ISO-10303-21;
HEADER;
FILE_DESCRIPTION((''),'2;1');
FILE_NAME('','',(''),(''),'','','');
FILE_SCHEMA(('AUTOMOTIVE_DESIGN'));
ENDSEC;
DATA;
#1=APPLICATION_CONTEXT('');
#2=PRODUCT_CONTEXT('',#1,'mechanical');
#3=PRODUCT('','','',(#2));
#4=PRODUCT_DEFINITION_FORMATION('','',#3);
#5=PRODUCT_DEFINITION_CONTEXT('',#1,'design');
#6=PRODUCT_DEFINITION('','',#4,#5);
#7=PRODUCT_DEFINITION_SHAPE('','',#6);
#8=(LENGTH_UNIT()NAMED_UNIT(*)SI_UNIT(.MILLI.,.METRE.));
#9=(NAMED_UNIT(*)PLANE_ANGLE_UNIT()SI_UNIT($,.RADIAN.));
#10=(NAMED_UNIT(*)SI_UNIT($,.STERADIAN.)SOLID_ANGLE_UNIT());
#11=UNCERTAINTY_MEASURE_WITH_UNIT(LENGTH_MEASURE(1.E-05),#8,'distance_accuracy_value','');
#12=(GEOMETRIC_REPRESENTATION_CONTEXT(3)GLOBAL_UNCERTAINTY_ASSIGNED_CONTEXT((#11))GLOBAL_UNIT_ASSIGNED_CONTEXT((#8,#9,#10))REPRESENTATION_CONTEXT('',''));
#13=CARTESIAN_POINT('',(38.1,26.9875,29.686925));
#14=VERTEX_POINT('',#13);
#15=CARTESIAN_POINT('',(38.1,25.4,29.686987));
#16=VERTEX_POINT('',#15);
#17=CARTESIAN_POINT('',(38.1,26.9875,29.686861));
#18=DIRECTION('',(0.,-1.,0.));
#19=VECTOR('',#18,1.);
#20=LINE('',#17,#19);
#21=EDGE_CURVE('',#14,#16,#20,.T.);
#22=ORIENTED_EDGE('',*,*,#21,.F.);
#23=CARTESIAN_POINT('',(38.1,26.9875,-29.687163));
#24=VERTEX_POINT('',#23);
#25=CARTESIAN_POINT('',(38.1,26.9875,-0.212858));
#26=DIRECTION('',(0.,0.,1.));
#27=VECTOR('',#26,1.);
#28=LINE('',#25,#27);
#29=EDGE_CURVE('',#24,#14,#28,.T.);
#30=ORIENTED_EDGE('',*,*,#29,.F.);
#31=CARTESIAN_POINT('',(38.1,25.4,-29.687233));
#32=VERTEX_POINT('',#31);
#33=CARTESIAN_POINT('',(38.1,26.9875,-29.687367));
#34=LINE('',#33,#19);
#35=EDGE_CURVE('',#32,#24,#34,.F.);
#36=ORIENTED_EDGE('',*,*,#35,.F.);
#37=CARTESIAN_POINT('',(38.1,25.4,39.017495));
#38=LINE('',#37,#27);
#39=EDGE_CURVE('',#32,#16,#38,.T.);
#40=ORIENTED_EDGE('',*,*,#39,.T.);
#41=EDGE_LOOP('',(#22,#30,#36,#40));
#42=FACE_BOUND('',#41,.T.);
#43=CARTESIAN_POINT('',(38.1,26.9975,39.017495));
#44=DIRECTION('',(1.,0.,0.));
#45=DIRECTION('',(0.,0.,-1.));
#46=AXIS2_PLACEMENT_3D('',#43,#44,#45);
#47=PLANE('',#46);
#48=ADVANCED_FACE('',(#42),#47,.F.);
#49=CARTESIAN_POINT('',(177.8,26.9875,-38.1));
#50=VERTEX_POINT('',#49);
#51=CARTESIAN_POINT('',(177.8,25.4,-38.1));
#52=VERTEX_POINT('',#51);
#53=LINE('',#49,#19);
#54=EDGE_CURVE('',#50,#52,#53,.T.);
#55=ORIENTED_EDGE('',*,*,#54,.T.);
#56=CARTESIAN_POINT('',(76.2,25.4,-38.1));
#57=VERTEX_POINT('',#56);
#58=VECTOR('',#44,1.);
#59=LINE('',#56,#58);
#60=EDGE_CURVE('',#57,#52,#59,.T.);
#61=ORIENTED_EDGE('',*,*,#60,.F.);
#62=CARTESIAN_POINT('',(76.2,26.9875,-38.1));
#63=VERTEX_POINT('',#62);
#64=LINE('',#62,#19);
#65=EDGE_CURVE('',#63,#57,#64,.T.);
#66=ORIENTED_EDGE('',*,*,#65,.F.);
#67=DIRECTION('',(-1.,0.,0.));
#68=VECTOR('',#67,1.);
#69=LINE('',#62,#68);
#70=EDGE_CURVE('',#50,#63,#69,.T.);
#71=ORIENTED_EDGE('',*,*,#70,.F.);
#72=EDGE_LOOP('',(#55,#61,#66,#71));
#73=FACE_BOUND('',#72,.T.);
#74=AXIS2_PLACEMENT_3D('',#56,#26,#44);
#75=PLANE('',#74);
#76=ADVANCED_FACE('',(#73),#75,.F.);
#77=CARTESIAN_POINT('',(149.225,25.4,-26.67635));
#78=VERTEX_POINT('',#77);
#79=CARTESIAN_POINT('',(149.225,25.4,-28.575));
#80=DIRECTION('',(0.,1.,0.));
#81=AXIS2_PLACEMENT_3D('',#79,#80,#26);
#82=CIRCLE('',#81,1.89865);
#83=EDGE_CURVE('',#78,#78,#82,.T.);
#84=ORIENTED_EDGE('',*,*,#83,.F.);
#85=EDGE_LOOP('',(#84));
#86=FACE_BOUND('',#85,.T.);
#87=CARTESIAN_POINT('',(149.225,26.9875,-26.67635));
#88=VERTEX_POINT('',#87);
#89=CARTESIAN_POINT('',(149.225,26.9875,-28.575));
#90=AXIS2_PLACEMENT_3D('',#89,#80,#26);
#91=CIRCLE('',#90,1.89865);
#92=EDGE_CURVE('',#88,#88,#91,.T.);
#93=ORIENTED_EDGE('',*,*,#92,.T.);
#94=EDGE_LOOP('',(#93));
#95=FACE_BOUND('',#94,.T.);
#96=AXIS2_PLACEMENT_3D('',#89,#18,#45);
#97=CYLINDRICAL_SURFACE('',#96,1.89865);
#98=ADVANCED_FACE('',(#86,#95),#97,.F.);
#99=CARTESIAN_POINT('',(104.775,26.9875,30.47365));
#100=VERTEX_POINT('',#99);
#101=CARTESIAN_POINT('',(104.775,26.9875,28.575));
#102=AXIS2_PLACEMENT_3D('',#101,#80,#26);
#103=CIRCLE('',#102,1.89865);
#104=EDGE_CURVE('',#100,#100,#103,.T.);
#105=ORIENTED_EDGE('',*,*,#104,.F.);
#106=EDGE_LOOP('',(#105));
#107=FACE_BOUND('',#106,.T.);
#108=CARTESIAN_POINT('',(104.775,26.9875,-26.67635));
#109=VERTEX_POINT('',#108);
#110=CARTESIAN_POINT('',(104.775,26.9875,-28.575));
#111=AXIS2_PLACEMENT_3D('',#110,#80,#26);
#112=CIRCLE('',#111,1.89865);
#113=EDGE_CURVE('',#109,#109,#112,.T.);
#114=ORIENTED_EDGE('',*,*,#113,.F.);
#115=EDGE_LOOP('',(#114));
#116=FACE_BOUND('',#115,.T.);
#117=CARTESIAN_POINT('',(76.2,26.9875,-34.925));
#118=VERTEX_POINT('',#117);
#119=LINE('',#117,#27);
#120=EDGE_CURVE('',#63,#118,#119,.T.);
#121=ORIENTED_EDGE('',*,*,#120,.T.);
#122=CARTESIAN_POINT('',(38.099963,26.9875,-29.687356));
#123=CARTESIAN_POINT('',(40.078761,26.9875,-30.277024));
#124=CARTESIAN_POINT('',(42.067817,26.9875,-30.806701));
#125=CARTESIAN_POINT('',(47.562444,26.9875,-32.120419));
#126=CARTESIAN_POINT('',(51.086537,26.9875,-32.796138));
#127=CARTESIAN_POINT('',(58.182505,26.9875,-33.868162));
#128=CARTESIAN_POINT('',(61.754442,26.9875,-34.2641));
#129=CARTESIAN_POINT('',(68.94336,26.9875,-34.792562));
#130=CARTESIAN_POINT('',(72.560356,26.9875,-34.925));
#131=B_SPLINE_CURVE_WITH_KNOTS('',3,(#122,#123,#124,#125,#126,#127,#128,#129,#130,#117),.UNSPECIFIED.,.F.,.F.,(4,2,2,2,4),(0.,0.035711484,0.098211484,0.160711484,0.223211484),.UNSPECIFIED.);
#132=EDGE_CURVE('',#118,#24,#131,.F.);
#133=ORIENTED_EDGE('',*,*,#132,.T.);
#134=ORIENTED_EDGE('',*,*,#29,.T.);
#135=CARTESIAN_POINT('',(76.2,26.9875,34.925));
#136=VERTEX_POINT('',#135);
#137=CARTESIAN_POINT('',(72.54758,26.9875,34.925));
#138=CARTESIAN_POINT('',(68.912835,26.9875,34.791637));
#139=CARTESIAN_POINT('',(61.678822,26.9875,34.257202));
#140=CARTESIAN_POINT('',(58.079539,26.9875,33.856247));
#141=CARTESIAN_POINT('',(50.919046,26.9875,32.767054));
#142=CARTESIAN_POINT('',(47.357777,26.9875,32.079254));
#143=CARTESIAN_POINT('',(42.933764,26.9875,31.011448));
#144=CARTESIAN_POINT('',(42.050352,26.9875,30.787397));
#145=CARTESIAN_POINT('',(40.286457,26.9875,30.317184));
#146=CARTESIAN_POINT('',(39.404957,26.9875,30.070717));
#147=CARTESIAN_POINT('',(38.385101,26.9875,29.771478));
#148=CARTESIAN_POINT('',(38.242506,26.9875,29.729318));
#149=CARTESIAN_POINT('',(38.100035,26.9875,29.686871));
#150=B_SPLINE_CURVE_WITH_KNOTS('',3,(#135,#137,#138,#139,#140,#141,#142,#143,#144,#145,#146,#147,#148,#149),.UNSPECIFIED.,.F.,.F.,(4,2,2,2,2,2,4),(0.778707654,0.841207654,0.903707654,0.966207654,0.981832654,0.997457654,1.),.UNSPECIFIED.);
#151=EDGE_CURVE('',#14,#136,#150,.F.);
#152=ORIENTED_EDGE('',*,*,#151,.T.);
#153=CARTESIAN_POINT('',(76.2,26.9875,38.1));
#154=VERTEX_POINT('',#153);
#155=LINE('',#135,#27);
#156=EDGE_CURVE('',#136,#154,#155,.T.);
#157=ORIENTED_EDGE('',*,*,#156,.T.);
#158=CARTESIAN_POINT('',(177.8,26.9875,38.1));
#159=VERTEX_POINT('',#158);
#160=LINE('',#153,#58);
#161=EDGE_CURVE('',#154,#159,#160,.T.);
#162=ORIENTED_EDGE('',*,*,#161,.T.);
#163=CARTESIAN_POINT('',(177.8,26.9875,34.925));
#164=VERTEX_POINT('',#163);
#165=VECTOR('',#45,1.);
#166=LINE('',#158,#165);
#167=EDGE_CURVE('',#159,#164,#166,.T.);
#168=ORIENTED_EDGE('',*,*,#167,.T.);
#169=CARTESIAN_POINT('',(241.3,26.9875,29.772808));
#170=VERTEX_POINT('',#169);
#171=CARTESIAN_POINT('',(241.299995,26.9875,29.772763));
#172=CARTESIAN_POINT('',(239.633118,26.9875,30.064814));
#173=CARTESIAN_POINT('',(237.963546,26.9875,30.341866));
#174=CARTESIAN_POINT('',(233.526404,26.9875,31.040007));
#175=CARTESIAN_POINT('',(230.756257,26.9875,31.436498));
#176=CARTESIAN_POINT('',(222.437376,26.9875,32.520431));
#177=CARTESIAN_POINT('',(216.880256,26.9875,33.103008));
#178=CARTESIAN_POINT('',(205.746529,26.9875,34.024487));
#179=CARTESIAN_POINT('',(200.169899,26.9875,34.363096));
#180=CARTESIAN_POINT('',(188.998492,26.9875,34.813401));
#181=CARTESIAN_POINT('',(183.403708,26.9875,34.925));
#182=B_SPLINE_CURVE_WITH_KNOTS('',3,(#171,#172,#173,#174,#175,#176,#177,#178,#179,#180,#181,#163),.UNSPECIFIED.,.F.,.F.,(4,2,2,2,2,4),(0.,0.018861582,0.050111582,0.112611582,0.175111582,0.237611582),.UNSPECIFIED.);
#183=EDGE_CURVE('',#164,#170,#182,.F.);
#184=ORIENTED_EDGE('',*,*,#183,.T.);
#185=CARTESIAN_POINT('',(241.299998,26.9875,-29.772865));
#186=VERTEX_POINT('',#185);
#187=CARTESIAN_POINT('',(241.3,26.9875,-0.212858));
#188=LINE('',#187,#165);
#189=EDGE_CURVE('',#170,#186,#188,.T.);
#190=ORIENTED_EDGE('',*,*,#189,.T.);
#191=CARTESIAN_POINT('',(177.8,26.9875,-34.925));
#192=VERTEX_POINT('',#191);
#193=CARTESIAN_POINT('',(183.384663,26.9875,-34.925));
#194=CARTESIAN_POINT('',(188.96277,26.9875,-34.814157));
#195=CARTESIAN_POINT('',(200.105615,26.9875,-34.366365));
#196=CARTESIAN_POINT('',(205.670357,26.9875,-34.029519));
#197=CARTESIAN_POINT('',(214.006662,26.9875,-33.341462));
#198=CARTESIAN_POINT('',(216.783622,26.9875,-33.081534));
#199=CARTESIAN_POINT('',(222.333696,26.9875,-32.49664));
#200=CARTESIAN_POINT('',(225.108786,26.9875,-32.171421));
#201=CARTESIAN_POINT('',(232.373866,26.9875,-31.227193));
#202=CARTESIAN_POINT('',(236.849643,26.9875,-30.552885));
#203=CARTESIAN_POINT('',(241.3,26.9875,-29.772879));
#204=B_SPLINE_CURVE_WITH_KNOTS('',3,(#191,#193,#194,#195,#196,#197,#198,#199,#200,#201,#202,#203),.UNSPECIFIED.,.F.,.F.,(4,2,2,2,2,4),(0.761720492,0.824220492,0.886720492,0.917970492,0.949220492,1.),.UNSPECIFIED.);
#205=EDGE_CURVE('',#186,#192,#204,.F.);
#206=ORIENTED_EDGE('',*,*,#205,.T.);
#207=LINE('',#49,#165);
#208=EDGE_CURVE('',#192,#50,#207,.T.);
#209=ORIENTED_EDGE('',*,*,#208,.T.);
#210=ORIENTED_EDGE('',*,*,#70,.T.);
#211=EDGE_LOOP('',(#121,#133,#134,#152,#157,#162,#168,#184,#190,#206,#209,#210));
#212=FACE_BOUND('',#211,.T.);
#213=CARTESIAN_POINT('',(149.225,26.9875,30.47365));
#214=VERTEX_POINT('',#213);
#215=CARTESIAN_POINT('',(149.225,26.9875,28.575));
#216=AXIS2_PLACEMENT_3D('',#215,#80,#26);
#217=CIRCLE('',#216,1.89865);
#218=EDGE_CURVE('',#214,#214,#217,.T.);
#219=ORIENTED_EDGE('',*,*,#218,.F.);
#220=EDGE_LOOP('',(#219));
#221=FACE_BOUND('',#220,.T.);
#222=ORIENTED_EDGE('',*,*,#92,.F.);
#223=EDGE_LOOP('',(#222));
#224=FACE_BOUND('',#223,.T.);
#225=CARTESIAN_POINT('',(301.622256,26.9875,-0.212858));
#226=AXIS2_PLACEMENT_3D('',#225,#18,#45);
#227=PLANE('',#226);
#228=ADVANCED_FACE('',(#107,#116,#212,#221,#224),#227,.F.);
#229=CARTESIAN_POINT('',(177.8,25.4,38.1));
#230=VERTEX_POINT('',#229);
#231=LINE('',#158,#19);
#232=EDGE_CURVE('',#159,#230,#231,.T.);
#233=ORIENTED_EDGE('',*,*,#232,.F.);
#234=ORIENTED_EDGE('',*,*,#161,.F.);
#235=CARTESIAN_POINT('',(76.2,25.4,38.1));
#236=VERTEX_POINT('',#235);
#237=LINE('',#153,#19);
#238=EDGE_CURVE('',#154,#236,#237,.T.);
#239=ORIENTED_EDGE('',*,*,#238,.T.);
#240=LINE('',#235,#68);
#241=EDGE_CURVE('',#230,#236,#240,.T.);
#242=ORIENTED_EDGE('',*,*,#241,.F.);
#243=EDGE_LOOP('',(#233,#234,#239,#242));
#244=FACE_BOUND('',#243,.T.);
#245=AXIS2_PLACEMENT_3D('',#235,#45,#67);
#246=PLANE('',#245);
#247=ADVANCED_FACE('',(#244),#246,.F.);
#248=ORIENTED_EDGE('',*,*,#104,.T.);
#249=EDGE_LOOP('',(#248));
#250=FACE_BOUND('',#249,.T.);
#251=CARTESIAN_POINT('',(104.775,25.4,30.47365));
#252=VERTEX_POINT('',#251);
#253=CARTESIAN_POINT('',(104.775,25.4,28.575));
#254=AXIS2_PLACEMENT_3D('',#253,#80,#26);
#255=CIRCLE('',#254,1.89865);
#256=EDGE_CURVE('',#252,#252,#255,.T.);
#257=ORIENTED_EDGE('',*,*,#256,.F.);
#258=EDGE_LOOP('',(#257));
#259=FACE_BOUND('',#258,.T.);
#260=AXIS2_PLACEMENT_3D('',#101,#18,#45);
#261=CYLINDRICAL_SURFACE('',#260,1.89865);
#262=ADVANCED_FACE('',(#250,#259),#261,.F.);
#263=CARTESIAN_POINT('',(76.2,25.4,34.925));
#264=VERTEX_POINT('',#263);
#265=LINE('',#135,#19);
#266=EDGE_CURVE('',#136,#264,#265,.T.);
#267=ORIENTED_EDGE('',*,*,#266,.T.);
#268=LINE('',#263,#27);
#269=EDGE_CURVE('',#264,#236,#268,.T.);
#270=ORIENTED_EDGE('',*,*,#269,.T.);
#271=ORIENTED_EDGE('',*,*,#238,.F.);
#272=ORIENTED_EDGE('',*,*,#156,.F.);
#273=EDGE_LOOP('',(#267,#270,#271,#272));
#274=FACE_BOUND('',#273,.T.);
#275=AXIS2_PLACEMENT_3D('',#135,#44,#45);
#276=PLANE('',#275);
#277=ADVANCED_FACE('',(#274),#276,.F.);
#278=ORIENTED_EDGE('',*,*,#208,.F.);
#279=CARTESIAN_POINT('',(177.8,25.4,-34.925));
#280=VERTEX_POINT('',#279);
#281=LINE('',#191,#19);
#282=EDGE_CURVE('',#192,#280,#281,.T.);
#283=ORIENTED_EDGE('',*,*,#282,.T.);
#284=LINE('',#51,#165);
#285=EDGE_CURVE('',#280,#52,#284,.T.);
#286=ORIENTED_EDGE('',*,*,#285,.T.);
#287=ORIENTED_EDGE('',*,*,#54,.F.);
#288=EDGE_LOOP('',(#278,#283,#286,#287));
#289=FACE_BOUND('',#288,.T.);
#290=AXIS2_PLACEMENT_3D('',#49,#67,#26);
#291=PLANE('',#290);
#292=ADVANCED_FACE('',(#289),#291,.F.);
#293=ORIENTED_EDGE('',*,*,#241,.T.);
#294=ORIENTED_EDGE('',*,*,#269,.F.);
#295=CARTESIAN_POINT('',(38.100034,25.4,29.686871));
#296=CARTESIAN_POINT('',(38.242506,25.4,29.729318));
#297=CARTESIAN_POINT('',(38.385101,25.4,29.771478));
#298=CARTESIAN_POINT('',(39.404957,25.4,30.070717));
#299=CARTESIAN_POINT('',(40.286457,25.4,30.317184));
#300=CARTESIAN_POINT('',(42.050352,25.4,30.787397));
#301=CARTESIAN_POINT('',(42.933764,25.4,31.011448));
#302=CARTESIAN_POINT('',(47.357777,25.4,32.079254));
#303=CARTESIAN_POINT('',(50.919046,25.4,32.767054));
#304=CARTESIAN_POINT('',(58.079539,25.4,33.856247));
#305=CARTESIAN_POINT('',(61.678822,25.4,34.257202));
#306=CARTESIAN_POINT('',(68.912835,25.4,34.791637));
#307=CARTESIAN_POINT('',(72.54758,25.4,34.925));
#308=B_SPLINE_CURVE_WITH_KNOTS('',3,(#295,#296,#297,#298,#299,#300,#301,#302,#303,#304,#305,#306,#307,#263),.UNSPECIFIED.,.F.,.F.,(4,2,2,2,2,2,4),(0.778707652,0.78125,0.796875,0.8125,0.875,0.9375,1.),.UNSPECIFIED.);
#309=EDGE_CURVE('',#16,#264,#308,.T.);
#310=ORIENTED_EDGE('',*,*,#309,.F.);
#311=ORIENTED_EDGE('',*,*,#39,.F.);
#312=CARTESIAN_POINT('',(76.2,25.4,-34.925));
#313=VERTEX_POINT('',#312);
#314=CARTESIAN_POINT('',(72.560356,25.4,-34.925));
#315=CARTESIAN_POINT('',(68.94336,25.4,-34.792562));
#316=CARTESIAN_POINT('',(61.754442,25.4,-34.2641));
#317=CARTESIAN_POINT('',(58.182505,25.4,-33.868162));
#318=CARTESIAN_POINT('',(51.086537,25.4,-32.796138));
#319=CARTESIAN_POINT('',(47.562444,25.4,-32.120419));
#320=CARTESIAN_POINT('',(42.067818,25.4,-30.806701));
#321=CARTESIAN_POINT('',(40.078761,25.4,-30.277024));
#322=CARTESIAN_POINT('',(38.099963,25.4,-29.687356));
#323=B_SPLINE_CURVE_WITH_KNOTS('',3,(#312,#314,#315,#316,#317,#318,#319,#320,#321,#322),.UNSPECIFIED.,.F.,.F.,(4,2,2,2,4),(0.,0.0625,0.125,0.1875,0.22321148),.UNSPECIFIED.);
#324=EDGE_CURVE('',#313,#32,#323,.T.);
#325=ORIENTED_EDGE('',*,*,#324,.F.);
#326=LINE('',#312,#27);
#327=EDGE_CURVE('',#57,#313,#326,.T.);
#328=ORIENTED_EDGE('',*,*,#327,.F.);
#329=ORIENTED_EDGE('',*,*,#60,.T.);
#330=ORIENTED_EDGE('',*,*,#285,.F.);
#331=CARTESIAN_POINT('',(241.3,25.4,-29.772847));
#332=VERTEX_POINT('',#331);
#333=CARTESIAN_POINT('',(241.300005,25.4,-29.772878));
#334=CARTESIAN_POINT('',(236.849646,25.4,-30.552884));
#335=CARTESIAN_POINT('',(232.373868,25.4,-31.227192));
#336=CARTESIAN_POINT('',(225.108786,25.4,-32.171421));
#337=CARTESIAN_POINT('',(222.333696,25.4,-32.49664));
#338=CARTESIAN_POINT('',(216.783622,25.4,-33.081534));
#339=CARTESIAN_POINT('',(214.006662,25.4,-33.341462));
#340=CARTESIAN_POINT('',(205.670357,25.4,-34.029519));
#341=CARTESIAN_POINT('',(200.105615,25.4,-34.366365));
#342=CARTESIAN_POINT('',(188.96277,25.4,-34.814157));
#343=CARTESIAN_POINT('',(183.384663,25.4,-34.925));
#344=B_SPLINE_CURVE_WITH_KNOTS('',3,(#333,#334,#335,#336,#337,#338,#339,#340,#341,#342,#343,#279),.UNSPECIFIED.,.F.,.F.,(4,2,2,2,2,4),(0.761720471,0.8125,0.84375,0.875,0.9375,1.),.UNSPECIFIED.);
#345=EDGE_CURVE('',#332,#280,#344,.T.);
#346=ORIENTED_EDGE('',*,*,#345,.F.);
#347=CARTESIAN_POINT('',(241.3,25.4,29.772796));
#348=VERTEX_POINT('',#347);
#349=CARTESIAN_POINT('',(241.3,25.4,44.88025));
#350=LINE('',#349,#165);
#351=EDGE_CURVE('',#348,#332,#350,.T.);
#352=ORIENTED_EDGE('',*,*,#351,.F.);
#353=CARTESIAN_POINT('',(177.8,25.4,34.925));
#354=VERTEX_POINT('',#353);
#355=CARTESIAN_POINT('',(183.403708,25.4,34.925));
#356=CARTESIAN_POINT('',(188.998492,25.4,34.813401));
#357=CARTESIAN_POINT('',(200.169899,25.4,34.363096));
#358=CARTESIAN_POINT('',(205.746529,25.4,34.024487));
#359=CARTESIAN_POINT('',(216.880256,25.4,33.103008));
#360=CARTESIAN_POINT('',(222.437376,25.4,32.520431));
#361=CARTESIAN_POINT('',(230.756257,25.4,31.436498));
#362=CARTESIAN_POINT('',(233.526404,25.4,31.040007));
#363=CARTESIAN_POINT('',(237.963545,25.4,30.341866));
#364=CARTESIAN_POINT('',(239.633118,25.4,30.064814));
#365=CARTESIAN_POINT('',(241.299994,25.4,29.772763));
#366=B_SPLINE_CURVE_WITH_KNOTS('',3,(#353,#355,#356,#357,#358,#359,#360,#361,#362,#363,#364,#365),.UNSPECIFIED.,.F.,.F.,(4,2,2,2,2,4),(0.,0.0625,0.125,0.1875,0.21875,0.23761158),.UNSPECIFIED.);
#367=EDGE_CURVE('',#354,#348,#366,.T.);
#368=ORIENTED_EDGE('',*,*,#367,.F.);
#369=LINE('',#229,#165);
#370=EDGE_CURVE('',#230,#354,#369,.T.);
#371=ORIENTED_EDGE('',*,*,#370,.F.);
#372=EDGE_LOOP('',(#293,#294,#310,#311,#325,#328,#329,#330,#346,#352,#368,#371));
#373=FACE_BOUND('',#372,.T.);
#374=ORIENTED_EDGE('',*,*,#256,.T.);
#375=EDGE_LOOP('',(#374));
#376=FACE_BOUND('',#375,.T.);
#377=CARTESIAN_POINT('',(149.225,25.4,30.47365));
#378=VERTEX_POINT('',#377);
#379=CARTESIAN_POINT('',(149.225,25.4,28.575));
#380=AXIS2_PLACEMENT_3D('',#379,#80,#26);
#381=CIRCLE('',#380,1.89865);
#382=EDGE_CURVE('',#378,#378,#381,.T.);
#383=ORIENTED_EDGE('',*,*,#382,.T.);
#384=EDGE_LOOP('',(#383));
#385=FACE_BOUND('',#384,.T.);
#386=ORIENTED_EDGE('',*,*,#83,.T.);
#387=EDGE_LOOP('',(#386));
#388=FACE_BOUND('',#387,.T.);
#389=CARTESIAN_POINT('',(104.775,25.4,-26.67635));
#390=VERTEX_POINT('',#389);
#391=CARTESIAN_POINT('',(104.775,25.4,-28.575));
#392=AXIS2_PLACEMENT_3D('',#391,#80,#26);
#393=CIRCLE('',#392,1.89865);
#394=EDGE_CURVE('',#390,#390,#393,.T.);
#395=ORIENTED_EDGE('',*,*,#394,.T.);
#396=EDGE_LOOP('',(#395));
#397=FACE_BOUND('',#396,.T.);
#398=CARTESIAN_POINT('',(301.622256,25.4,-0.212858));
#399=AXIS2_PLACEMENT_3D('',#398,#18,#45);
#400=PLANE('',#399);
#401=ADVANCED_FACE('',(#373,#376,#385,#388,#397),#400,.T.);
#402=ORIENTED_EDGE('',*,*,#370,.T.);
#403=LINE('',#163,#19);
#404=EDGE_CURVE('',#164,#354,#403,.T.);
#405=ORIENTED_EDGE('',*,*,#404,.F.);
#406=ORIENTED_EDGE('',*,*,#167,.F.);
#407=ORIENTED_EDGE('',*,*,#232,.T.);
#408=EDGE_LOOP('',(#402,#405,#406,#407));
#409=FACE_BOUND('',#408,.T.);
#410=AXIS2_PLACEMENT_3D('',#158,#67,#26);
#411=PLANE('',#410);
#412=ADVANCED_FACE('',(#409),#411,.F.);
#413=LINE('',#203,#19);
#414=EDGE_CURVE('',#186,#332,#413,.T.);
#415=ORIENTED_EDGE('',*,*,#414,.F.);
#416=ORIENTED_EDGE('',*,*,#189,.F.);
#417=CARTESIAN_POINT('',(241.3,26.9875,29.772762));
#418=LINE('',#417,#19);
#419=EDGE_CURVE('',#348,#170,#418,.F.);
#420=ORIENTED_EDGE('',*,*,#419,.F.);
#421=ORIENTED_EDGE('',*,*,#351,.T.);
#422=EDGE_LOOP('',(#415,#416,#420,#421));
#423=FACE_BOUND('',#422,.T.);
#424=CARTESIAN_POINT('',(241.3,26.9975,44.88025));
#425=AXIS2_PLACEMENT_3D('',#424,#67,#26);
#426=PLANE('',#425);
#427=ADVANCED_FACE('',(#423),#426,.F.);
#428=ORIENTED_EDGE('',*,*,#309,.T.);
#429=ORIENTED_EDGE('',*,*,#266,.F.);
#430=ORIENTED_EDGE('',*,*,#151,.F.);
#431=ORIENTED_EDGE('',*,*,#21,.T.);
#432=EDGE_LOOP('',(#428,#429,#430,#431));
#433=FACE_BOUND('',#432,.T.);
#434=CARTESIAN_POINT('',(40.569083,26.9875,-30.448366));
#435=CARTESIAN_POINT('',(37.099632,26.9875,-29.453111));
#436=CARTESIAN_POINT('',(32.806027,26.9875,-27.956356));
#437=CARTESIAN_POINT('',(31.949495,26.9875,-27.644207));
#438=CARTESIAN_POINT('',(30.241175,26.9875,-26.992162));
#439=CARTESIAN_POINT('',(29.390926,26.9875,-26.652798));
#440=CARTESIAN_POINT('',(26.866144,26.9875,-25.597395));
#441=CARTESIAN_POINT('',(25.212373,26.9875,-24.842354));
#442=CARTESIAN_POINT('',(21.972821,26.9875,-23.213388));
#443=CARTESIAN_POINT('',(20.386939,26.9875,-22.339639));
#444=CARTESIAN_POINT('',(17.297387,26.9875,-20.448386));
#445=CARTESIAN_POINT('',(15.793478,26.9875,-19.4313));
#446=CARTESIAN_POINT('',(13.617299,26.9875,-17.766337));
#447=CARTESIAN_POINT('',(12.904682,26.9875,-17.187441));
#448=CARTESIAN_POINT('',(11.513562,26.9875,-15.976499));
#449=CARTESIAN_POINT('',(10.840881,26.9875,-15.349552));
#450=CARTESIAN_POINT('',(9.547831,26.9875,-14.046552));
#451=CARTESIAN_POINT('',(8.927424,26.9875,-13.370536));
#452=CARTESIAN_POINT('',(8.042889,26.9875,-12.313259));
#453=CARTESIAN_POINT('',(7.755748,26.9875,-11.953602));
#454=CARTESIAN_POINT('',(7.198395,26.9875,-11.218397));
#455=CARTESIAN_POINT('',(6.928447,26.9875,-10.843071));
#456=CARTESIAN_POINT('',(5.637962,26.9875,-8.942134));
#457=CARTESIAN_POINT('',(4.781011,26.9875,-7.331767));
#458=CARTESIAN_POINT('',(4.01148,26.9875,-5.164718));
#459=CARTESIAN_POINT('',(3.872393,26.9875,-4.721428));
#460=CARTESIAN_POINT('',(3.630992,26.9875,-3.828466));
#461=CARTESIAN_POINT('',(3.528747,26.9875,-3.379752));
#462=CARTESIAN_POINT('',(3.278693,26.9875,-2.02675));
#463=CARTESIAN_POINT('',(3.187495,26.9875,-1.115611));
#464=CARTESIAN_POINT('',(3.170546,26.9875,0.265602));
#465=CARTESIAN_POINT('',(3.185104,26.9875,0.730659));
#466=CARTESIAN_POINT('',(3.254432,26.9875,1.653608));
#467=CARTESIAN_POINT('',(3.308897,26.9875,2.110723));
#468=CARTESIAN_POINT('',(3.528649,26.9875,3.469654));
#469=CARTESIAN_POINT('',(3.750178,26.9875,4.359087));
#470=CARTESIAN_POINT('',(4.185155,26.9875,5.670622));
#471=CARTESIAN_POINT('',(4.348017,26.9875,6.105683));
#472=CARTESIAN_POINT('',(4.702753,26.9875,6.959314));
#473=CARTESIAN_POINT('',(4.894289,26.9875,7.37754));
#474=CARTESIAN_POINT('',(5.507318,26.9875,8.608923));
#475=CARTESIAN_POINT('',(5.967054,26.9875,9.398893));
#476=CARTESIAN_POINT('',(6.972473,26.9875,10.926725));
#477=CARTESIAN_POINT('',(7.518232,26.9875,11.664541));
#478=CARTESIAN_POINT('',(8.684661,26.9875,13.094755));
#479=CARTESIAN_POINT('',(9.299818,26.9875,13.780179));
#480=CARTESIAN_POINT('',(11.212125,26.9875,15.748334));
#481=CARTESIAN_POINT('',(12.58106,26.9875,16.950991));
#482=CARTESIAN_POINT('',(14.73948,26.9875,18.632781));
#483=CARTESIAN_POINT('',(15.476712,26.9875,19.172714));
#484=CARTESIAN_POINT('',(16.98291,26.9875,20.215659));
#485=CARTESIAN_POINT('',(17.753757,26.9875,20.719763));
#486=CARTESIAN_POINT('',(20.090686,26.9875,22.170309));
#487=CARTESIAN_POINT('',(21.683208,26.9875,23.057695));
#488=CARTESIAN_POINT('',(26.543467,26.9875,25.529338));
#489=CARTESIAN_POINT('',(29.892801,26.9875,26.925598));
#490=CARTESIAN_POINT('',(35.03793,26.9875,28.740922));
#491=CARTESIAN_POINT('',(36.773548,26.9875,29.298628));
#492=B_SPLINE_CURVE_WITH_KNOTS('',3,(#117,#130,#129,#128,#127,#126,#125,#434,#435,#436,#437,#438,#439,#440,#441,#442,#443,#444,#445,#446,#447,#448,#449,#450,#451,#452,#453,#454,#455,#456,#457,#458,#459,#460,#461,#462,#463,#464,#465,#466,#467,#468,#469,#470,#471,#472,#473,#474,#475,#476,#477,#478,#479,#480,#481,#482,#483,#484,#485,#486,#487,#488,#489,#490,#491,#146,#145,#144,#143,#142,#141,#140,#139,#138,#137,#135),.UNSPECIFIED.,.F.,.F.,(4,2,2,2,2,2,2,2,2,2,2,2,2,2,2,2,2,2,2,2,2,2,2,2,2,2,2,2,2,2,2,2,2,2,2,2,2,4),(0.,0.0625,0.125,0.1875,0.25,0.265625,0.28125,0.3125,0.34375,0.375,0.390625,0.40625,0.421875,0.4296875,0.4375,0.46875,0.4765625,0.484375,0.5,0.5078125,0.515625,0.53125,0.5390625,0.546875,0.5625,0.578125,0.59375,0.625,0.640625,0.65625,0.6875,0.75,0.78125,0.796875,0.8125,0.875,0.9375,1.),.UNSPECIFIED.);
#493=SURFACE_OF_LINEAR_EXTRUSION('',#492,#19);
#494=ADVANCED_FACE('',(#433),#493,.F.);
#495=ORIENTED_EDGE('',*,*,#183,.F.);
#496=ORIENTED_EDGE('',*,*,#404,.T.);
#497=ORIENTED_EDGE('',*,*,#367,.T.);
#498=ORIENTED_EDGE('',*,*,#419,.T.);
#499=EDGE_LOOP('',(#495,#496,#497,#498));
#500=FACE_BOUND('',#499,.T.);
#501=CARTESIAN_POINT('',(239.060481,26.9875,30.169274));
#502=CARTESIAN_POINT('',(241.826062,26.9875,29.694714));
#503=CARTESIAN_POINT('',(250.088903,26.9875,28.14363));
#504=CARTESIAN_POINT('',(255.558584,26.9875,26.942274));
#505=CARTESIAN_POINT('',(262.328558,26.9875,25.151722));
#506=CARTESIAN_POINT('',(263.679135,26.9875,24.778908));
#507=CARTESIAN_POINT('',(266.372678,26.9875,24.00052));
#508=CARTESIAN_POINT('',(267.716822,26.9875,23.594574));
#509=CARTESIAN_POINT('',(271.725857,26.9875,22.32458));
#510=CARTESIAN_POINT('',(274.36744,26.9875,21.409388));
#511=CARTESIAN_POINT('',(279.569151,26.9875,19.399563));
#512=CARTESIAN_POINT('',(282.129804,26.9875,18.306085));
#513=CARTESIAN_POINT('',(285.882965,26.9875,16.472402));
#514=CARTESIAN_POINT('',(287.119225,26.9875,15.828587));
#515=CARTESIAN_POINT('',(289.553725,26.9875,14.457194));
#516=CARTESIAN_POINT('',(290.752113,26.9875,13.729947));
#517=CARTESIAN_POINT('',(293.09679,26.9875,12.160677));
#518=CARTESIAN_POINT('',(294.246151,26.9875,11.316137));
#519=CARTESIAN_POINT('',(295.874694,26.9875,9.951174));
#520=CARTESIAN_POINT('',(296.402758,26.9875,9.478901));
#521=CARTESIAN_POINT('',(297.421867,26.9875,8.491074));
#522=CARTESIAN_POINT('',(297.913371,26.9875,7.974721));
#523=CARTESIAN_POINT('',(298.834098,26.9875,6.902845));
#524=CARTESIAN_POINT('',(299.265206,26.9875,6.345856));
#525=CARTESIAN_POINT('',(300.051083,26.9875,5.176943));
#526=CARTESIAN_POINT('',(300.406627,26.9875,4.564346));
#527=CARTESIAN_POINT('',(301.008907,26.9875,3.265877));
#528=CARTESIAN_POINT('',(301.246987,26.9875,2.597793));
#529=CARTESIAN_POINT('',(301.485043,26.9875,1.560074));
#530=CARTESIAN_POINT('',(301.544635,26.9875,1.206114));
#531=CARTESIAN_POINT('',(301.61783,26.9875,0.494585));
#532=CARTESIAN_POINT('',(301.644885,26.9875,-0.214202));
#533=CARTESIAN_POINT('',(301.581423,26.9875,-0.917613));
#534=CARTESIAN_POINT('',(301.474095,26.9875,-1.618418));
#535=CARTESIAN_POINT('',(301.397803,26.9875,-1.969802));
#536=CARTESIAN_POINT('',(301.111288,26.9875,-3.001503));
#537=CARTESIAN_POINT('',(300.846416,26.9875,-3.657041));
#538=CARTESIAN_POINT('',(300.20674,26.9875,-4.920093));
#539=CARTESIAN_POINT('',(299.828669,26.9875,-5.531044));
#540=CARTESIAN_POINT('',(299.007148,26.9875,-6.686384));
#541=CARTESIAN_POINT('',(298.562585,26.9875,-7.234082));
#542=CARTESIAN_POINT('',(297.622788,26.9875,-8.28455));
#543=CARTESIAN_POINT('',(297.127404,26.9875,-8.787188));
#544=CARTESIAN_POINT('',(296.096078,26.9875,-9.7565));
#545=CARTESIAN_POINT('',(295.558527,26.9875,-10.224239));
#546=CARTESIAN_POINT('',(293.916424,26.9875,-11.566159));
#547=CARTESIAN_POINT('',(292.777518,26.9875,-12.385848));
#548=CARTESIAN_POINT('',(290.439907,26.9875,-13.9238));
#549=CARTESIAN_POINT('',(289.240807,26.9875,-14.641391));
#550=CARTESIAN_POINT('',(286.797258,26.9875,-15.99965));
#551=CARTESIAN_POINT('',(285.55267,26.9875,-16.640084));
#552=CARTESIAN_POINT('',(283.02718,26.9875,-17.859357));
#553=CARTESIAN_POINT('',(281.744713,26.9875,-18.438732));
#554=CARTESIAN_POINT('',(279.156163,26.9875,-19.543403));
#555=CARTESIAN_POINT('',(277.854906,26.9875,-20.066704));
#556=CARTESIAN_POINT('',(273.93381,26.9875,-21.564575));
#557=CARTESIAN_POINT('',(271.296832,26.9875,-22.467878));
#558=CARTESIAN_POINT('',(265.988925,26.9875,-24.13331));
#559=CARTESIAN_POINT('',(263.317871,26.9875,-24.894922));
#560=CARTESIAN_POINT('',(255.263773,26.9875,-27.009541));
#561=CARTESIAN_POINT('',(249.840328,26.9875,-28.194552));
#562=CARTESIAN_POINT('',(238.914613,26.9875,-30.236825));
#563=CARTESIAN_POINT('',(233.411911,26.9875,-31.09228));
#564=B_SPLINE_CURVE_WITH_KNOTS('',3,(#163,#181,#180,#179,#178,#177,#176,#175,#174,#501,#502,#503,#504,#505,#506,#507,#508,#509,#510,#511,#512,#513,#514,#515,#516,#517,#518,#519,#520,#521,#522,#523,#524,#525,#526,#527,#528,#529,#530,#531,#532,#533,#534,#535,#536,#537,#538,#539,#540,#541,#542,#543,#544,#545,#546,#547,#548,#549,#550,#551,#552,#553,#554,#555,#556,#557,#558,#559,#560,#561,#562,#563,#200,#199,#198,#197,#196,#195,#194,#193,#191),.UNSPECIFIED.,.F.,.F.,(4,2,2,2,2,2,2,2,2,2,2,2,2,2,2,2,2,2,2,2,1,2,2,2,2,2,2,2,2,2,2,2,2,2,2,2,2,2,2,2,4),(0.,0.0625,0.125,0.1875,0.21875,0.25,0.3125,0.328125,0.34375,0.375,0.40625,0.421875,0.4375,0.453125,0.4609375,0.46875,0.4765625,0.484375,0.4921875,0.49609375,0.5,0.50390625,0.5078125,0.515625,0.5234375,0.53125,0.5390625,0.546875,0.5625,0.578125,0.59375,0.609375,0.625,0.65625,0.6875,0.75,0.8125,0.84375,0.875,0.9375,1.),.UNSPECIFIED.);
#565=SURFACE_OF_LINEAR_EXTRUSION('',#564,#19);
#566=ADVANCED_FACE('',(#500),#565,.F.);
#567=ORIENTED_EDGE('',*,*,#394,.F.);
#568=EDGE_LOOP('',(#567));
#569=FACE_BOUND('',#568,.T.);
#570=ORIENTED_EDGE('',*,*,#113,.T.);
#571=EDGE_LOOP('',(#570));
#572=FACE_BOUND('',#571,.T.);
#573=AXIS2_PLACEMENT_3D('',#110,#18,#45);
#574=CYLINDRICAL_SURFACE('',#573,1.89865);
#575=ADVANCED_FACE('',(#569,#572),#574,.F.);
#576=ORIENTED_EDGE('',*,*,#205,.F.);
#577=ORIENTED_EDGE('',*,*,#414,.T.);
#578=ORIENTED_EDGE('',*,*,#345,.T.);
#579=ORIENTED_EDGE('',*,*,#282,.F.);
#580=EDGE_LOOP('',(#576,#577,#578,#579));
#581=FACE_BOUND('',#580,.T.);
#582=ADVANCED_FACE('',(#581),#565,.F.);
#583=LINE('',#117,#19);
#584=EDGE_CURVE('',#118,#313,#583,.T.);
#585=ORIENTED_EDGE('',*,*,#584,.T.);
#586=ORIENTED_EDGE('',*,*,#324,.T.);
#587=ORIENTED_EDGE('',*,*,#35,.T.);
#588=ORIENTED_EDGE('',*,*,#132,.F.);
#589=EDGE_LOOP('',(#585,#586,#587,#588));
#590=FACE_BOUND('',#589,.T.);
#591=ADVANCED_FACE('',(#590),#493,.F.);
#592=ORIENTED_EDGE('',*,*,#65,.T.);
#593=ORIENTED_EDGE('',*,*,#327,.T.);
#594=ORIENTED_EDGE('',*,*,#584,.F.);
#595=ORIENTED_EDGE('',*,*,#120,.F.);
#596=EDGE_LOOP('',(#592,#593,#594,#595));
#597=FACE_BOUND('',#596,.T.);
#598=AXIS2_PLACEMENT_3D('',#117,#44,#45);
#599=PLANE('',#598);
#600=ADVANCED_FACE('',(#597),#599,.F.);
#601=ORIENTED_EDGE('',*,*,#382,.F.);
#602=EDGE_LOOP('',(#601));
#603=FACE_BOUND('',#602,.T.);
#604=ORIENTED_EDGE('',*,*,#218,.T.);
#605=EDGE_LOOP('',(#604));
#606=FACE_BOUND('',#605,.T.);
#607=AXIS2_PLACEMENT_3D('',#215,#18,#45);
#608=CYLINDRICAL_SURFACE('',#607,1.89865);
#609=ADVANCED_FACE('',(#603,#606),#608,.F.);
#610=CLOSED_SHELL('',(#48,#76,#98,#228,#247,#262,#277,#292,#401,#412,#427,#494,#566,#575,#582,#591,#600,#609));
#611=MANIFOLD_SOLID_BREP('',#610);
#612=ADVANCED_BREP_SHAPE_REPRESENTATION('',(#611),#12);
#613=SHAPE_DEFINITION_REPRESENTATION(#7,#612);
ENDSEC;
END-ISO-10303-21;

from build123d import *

# Parameters (mm, degrees)
BOSS_EXTRUDE1_DEPTH   = 25.4
SKETCH4_W             = 63.5
SKETCH4_H             = 76.2
CUT_EXTRUDE4_DEPTH    = 0.01
F_6_CLEARANCE_HOLE1_D = 3.7973
CUT_EXTRUDE5_DEPTH    = 3.5052
SKETCH8_R             = 1.89865
BOSS_EXTRUDE2_DEPTH   = 1.5875
SKETCH9_W             = 83.512513563
SKETCH9_H             = 26.66457596
CUT_EXTRUDE7_DEPTH    = 309.355274367
SKETCH10_W            = 76.2
SKETCH10_H            = 78.034990754
SKETCH10_W_2          = 120.649995745
SKETCH10_H_2          = 89.760717872
CUT_EXTRUDE8_DEPTH    = 305.02593568


with BuildPart() as part:
    # Sketch1 → Boss-Extrude1 (new body)
    with BuildSketch(Plane(origin=(0, 0, 0), x_dir=(1, 0, 0), z_dir=(0, 1, 0))):
        with BuildLine():
            Line((76.2, 38.1), (177.8, 38.1))
            add(Edge.make_bspline(
                [(177.8, -38.1), (304.8, -38.1), (304.8, 0), (304.8, 38.1), (177.8, 38.1)],
                knots=[4.71238898, 4.71238898, 4.71238898, 6.283185307, 6.283185307, 7.853981634, 7.853981634, 7.853981634], degree=2, weights=[1, 0.707106781, 1, 0.707106781, 1]))
            Line((177.8, -38.1), (76.2, -38.1))
            add(Edge.make_bspline(
                [(76.2, 38.1), (0, 38.1), (0, 0), (0, -38.1), (76.2, -38.1)],
                knots=[4.71238898, 4.71238898, 4.71238898, 6.283185307, 6.283185307, 7.853981634, 7.853981634, 7.853981634], degree=2, weights=[1, 0.707106781, 1, 0.707106781, 1]))
        make_face()
    extrude(amount=BOSS_EXTRUDE1_DEPTH)

    # Sketch4 → Cut-Extrude4 (cut)
    with BuildSketch(Plane.XZ):
        with Locations((107.95, 0)):
            Rectangle(SKETCH4_W, SKETCH4_H)
    extrude(amount=-CUT_EXTRUDE4_DEPTH, mode=Mode.SUBTRACT)

    # #6 Clearance Hole1 (through all)
    with Locations(Plane(origin=(0, 25.4, 0), x_dir=(1, 0, 0), z_dir=(0, 1, 0))):
        with Locations((104.775, 28.575), (149.225, 28.575), (149.225, -28.575), (104.775, -28.575)):
            Hole(F_6_CLEARANCE_HOLE1_D / 2)

    # Sketch7 → Cut-Extrude5 (cut)
    with BuildSketch(Plane(origin=(0, 25.4, 0), x_dir=(1, 0, 0), z_dir=(0, 1, 0))):
        Polygon((144.092356107, 28.575), (146.658678053, 24.13), (151.791321947, 24.13), (154.357643893, 28.575), (151.791321947, 33.02), (146.658678053, 33.02), align=None)
        Polygon((144.092356107, -28.575), (146.658678053, -33.02), (151.791321947, -33.02), (154.357643893, -28.575), (151.791321947, -24.13), (146.658678053, -24.13), align=None)
        Polygon((99.642356107, -28.575), (102.208678053, -33.02), (107.341321947, -33.02), (109.907643893, -28.575), (107.341321947, -24.13), (102.208678053, -24.13), align=None)
        Polygon((99.642356107, 28.575), (102.208678053, 24.13), (107.341321947, 24.13), (109.907643893, 28.575), (107.341321947, 33.02), (102.208678053, 33.02), align=None)
    extrude(amount=-CUT_EXTRUDE5_DEPTH, mode=Mode.SUBTRACT)

    # Sketch8 → Boss-Extrude2 (add)
    with BuildSketch(Plane(origin=(0, 25.4, 0), x_dir=(1, 0, 0), z_dir=(0, 1, 0))):
        with BuildLine():
            Line((76.2, 34.925), (76.2, 38.1))
            Line((76.2, 38.1), (177.8, 38.1))
            Line((177.8, 38.1), (177.8, 34.925))
            add(Edge.make_bspline(
                [(177.8, -34.925), (183.4037084, -34.925), (188.998492342, -34.813401269), (200.169898566, -34.363095557), (205.746528757, -34.024487469), (216.880255629, -33.103008305), (222.437375795, -32.520430902), (230.75625716, -31.436497802), (233.526404303, -31.040006826), (239.060480939, -30.169274267), (241.826062226, -29.694714405), (250.088902803, -28.143630441), (255.558584053, -26.942274462), (262.328557631, -25.151722447), (263.679135198, -24.778907782), (266.372677584, -24.000520191), (267.71682163, -23.594573907), (271.725857042, -22.324580042), (274.36743953, -21.409387606), (279.569151408, -19.39956311), (282.129804397, -18.306084526), (285.88296458, -16.472402408), (287.119225286, -15.828587024), (289.55372457, -14.457194234), (290.752112946, -13.729946828), (293.096789788, -12.16067691), (294.246150852, -11.316137328), (295.874693947, -9.951173652), (296.402758109, -9.47890107), (297.421867434, -8.491073847), (297.913370929, -7.974720766), (298.834097865, -6.902845016), (299.265206405, -6.34585568), (300.051083084, -5.176943461), (300.406626859, -4.564345705), (301.008906586, -3.265877479), (301.246986609, -2.597792892), (301.485043085, -1.560074348), (301.544634961, -1.206113764), (301.617830117, -0.494585391), (301.644885041, 0.214202137), (301.581423052, 0.917612733), (301.474094585, 1.618417551), (301.397802992, 1.969801613), (301.111287523, 3.001503382), (300.846416268, 3.65704054), (300.206739898, 4.920093421), (299.828668717, 5.531043925), (299.007148253, 6.686383823), (298.562585264, 7.234082094), (297.622788002, 8.284550248), (297.127404223, 8.787187569), (296.096077792, 9.756500131), (295.558527194, 10.224239157), (293.916424424, 11.566158841), (292.777517596, 12.385848353), (290.439906756, 13.923799855), (289.240807105, 14.641390764), (286.797257835, 15.999650314), (285.552669877, 16.640084306), (283.027180157, 17.859357093), (281.744712958, 18.438732265), (279.156163214, 19.543403236), (277.854905585, 20.066703794), (273.933809615, 21.564574536), (271.296832059, 22.467878334), (265.988924804, 24.133309881), (263.317871138, 24.894922167), (255.263773486, 27.00954075), (249.84032756, 28.194552175), (238.914613399, 30.236824809), (233.411910816, 31.092279963), (225.108785934, 32.171421056), (222.333695526, 32.496639974), (216.783621708, 33.081533661), (214.006661761, 33.341462159), (205.670357358, 34.029518973), (200.105614733, 34.366364864), (188.962770448, 34.814156957), (183.384662687, 34.925), (177.8, 34.925)],
                knots=[0, 0, 0, 0, 0.0625, 0.0625, 0.125, 0.125, 0.1875, 0.1875, 0.21875, 0.21875, 0.25, 0.25, 0.3125, 0.3125, 0.328125, 0.328125, 0.34375, 0.34375, 0.375, 0.375, 0.40625, 0.40625, 0.421875, 0.421875, 0.4375, 0.4375, 0.453125, 0.453125, 0.4609375, 0.4609375, 0.46875, 0.46875, 0.4765625, 0.4765625, 0.484375, 0.484375, 0.4921875, 0.4921875, 0.49609375, 0.49609375, 0.5, 0.50390625, 0.50390625, 0.5078125, 0.5078125, 0.515625, 0.515625, 0.5234375, 0.5234375, 0.53125, 0.53125, 0.5390625, 0.5390625, 0.546875, 0.546875, 0.5625, 0.5625, 0.578125, 0.578125, 0.59375, 0.59375, 0.609375, 0.609375, 0.625, 0.625, 0.65625, 0.65625, 0.6875, 0.6875, 0.75, 0.75, 0.8125, 0.8125, 0.84375, 0.84375, 0.875, 0.875, 0.9375, 0.9375, 1, 1, 1, 1], degree=3))
            Line((177.8, -34.925), (177.8, -38.1))
            Line((177.8, -38.1), (76.2, -38.1))
            Line((76.2, -38.1), (76.2, -34.925))
            add(Edge.make_bspline(
                [(76.2, 34.925), (72.560356463, 34.925), (68.943360269, 34.792561899), (61.754441862, 34.264100128), (58.182504946, 33.868162444), (51.086537454, 32.796138329), (47.562444107, 32.120418968), (40.569083399, 30.448366491), (37.099631765, 29.453110976), (32.806027277, 27.95635597), (31.949494882, 27.644206952), (30.241174952, 26.992161717), (29.390926264, 26.65279755), (26.866144113, 25.597394738), (25.212373464, 24.842354074), (21.972821409, 23.213388071), (20.386939209, 22.339638978), (17.297386897, 20.44838632), (15.793478172, 19.43129999), (13.617299122, 17.766336528), (12.904682274, 17.187440617), (11.513561893, 15.976499308), (10.840880513, 15.349552385), (9.54783147, 14.046551814), (8.927423545, 13.37053596), (8.042889277, 12.313259261), (7.755748062, 11.953602405), (7.198395375, 11.218396794), (6.928446634, 10.843070732), (5.637961842, 8.942133597), (4.781011076, 7.331767424), (4.011479694, 5.164717753), (3.872393075, 4.721427518), (3.630991775, 3.828466268), (3.528746677, 3.379752125), (3.278693467, 2.026749947), (3.187494563, 1.115610982), (3.170545544, -0.265601808), (3.185103724, -0.730659272), (3.254432294, -1.653608423), (3.308896513, -2.110722742), (3.528648511, -3.46965449), (3.750177803, -4.359086655), (4.185155464, -5.670622337), (4.348017487, -6.105682935), (4.702753212, -6.959314098), (4.89428858, -7.377540069), (5.507317523, -8.608922615), (5.967053776, -9.398893053), (6.972472791, -10.926725455), (7.518232478, -11.66454078), (8.684660756, -13.094754944), (9.299817788, -13.780178654), (11.212125162, -15.748333857), (12.581059513, -16.950990578), (14.739480167, -18.63278064), (15.476712229, -19.172714409), (16.982909755, -20.215658543), (17.753757316, -20.719762644), (20.090686263, -22.170309278), (21.683208327, -23.057695262), (26.543466505, -25.529337744), (29.892801319, -26.925597609), (35.037930237, -28.740921547), (36.773547574, -29.298627898), (39.40495658, -30.070716914), (40.286457068, -30.317183729), (42.05035166, -30.787397156), (42.933764127, -31.011448076), (47.357777286, -32.079253653), (50.919045806, -32.767054426), (58.079539287, -33.856246888), (61.678822068, -34.257202279), (68.912834907, -34.79163745), (72.5475805, -34.925), (76.2, -34.925)],
                knots=[0, 0, 0, 0, 0.0625, 0.0625, 0.125, 0.125, 0.1875, 0.1875, 0.25, 0.25, 0.265625, 0.265625, 0.28125, 0.28125, 0.3125, 0.3125, 0.34375, 0.34375, 0.375, 0.375, 0.390625, 0.390625, 0.40625, 0.40625, 0.421875, 0.421875, 0.4296875, 0.4296875, 0.4375, 0.4375, 0.46875, 0.46875, 0.4765625, 0.4765625, 0.484375, 0.484375, 0.5, 0.5, 0.5078125, 0.5078125, 0.515625, 0.515625, 0.53125, 0.53125, 0.5390625, 0.5390625, 0.546875, 0.546875, 0.5625, 0.5625, 0.578125, 0.578125, 0.59375, 0.59375, 0.625, 0.625, 0.640625, 0.640625, 0.65625, 0.65625, 0.6875, 0.6875, 0.75, 0.75, 0.78125, 0.78125, 0.796875, 0.796875, 0.8125, 0.8125, 0.875, 0.875, 0.9375, 0.9375, 1, 1, 1, 1], degree=3))
        make_face()
        with Locations(Location((149.225, 28.575, 0), (0, 0, 270))):
            Circle(SKETCH8_R, mode=Mode.SUBTRACT)
        with Locations(Location((149.225, -28.575, 0), (0, 0, 270))):
            Circle(SKETCH8_R, mode=Mode.SUBTRACT)
        with Locations(Location((104.775, -28.575, 0), (0, 0, 270))):
            Circle(SKETCH8_R, mode=Mode.SUBTRACT)
        with Locations(Location((104.775, 28.575, 0), (0, 0, 270))):
            Circle(SKETCH8_R, mode=Mode.SUBTRACT)
    extrude(amount=BOSS_EXTRUDE2_DEPTH)

    # Sketch9 → Cut-Extrude7 (cut, through all)
    with BuildSketch(Plane(origin=(0, 0, 0), x_dir=(0, 0, -1), z_dir=(1, 0, 0))):
        with Locations((0.469171425, 12.06771202)):
            Rectangle(SKETCH9_W, SKETCH9_H)
    extrude(amount=CUT_EXTRUDE7_DEPTH, mode=Mode.SUBTRACT)

    # Sketch10 → Cut-Extrude8 (cut, through all)
    with BuildSketch(Plane.XZ.offset(-25.4)):
        Rectangle(SKETCH10_W, SKETCH10_H)
        with Locations((301.624997872, -0.000109313)):
            Rectangle(SKETCH10_W_2, SKETCH10_H_2)
    extrude(amount=-CUT_EXTRUDE8_DEPTH, mode=Mode.SUBTRACT)


solid = part.part
